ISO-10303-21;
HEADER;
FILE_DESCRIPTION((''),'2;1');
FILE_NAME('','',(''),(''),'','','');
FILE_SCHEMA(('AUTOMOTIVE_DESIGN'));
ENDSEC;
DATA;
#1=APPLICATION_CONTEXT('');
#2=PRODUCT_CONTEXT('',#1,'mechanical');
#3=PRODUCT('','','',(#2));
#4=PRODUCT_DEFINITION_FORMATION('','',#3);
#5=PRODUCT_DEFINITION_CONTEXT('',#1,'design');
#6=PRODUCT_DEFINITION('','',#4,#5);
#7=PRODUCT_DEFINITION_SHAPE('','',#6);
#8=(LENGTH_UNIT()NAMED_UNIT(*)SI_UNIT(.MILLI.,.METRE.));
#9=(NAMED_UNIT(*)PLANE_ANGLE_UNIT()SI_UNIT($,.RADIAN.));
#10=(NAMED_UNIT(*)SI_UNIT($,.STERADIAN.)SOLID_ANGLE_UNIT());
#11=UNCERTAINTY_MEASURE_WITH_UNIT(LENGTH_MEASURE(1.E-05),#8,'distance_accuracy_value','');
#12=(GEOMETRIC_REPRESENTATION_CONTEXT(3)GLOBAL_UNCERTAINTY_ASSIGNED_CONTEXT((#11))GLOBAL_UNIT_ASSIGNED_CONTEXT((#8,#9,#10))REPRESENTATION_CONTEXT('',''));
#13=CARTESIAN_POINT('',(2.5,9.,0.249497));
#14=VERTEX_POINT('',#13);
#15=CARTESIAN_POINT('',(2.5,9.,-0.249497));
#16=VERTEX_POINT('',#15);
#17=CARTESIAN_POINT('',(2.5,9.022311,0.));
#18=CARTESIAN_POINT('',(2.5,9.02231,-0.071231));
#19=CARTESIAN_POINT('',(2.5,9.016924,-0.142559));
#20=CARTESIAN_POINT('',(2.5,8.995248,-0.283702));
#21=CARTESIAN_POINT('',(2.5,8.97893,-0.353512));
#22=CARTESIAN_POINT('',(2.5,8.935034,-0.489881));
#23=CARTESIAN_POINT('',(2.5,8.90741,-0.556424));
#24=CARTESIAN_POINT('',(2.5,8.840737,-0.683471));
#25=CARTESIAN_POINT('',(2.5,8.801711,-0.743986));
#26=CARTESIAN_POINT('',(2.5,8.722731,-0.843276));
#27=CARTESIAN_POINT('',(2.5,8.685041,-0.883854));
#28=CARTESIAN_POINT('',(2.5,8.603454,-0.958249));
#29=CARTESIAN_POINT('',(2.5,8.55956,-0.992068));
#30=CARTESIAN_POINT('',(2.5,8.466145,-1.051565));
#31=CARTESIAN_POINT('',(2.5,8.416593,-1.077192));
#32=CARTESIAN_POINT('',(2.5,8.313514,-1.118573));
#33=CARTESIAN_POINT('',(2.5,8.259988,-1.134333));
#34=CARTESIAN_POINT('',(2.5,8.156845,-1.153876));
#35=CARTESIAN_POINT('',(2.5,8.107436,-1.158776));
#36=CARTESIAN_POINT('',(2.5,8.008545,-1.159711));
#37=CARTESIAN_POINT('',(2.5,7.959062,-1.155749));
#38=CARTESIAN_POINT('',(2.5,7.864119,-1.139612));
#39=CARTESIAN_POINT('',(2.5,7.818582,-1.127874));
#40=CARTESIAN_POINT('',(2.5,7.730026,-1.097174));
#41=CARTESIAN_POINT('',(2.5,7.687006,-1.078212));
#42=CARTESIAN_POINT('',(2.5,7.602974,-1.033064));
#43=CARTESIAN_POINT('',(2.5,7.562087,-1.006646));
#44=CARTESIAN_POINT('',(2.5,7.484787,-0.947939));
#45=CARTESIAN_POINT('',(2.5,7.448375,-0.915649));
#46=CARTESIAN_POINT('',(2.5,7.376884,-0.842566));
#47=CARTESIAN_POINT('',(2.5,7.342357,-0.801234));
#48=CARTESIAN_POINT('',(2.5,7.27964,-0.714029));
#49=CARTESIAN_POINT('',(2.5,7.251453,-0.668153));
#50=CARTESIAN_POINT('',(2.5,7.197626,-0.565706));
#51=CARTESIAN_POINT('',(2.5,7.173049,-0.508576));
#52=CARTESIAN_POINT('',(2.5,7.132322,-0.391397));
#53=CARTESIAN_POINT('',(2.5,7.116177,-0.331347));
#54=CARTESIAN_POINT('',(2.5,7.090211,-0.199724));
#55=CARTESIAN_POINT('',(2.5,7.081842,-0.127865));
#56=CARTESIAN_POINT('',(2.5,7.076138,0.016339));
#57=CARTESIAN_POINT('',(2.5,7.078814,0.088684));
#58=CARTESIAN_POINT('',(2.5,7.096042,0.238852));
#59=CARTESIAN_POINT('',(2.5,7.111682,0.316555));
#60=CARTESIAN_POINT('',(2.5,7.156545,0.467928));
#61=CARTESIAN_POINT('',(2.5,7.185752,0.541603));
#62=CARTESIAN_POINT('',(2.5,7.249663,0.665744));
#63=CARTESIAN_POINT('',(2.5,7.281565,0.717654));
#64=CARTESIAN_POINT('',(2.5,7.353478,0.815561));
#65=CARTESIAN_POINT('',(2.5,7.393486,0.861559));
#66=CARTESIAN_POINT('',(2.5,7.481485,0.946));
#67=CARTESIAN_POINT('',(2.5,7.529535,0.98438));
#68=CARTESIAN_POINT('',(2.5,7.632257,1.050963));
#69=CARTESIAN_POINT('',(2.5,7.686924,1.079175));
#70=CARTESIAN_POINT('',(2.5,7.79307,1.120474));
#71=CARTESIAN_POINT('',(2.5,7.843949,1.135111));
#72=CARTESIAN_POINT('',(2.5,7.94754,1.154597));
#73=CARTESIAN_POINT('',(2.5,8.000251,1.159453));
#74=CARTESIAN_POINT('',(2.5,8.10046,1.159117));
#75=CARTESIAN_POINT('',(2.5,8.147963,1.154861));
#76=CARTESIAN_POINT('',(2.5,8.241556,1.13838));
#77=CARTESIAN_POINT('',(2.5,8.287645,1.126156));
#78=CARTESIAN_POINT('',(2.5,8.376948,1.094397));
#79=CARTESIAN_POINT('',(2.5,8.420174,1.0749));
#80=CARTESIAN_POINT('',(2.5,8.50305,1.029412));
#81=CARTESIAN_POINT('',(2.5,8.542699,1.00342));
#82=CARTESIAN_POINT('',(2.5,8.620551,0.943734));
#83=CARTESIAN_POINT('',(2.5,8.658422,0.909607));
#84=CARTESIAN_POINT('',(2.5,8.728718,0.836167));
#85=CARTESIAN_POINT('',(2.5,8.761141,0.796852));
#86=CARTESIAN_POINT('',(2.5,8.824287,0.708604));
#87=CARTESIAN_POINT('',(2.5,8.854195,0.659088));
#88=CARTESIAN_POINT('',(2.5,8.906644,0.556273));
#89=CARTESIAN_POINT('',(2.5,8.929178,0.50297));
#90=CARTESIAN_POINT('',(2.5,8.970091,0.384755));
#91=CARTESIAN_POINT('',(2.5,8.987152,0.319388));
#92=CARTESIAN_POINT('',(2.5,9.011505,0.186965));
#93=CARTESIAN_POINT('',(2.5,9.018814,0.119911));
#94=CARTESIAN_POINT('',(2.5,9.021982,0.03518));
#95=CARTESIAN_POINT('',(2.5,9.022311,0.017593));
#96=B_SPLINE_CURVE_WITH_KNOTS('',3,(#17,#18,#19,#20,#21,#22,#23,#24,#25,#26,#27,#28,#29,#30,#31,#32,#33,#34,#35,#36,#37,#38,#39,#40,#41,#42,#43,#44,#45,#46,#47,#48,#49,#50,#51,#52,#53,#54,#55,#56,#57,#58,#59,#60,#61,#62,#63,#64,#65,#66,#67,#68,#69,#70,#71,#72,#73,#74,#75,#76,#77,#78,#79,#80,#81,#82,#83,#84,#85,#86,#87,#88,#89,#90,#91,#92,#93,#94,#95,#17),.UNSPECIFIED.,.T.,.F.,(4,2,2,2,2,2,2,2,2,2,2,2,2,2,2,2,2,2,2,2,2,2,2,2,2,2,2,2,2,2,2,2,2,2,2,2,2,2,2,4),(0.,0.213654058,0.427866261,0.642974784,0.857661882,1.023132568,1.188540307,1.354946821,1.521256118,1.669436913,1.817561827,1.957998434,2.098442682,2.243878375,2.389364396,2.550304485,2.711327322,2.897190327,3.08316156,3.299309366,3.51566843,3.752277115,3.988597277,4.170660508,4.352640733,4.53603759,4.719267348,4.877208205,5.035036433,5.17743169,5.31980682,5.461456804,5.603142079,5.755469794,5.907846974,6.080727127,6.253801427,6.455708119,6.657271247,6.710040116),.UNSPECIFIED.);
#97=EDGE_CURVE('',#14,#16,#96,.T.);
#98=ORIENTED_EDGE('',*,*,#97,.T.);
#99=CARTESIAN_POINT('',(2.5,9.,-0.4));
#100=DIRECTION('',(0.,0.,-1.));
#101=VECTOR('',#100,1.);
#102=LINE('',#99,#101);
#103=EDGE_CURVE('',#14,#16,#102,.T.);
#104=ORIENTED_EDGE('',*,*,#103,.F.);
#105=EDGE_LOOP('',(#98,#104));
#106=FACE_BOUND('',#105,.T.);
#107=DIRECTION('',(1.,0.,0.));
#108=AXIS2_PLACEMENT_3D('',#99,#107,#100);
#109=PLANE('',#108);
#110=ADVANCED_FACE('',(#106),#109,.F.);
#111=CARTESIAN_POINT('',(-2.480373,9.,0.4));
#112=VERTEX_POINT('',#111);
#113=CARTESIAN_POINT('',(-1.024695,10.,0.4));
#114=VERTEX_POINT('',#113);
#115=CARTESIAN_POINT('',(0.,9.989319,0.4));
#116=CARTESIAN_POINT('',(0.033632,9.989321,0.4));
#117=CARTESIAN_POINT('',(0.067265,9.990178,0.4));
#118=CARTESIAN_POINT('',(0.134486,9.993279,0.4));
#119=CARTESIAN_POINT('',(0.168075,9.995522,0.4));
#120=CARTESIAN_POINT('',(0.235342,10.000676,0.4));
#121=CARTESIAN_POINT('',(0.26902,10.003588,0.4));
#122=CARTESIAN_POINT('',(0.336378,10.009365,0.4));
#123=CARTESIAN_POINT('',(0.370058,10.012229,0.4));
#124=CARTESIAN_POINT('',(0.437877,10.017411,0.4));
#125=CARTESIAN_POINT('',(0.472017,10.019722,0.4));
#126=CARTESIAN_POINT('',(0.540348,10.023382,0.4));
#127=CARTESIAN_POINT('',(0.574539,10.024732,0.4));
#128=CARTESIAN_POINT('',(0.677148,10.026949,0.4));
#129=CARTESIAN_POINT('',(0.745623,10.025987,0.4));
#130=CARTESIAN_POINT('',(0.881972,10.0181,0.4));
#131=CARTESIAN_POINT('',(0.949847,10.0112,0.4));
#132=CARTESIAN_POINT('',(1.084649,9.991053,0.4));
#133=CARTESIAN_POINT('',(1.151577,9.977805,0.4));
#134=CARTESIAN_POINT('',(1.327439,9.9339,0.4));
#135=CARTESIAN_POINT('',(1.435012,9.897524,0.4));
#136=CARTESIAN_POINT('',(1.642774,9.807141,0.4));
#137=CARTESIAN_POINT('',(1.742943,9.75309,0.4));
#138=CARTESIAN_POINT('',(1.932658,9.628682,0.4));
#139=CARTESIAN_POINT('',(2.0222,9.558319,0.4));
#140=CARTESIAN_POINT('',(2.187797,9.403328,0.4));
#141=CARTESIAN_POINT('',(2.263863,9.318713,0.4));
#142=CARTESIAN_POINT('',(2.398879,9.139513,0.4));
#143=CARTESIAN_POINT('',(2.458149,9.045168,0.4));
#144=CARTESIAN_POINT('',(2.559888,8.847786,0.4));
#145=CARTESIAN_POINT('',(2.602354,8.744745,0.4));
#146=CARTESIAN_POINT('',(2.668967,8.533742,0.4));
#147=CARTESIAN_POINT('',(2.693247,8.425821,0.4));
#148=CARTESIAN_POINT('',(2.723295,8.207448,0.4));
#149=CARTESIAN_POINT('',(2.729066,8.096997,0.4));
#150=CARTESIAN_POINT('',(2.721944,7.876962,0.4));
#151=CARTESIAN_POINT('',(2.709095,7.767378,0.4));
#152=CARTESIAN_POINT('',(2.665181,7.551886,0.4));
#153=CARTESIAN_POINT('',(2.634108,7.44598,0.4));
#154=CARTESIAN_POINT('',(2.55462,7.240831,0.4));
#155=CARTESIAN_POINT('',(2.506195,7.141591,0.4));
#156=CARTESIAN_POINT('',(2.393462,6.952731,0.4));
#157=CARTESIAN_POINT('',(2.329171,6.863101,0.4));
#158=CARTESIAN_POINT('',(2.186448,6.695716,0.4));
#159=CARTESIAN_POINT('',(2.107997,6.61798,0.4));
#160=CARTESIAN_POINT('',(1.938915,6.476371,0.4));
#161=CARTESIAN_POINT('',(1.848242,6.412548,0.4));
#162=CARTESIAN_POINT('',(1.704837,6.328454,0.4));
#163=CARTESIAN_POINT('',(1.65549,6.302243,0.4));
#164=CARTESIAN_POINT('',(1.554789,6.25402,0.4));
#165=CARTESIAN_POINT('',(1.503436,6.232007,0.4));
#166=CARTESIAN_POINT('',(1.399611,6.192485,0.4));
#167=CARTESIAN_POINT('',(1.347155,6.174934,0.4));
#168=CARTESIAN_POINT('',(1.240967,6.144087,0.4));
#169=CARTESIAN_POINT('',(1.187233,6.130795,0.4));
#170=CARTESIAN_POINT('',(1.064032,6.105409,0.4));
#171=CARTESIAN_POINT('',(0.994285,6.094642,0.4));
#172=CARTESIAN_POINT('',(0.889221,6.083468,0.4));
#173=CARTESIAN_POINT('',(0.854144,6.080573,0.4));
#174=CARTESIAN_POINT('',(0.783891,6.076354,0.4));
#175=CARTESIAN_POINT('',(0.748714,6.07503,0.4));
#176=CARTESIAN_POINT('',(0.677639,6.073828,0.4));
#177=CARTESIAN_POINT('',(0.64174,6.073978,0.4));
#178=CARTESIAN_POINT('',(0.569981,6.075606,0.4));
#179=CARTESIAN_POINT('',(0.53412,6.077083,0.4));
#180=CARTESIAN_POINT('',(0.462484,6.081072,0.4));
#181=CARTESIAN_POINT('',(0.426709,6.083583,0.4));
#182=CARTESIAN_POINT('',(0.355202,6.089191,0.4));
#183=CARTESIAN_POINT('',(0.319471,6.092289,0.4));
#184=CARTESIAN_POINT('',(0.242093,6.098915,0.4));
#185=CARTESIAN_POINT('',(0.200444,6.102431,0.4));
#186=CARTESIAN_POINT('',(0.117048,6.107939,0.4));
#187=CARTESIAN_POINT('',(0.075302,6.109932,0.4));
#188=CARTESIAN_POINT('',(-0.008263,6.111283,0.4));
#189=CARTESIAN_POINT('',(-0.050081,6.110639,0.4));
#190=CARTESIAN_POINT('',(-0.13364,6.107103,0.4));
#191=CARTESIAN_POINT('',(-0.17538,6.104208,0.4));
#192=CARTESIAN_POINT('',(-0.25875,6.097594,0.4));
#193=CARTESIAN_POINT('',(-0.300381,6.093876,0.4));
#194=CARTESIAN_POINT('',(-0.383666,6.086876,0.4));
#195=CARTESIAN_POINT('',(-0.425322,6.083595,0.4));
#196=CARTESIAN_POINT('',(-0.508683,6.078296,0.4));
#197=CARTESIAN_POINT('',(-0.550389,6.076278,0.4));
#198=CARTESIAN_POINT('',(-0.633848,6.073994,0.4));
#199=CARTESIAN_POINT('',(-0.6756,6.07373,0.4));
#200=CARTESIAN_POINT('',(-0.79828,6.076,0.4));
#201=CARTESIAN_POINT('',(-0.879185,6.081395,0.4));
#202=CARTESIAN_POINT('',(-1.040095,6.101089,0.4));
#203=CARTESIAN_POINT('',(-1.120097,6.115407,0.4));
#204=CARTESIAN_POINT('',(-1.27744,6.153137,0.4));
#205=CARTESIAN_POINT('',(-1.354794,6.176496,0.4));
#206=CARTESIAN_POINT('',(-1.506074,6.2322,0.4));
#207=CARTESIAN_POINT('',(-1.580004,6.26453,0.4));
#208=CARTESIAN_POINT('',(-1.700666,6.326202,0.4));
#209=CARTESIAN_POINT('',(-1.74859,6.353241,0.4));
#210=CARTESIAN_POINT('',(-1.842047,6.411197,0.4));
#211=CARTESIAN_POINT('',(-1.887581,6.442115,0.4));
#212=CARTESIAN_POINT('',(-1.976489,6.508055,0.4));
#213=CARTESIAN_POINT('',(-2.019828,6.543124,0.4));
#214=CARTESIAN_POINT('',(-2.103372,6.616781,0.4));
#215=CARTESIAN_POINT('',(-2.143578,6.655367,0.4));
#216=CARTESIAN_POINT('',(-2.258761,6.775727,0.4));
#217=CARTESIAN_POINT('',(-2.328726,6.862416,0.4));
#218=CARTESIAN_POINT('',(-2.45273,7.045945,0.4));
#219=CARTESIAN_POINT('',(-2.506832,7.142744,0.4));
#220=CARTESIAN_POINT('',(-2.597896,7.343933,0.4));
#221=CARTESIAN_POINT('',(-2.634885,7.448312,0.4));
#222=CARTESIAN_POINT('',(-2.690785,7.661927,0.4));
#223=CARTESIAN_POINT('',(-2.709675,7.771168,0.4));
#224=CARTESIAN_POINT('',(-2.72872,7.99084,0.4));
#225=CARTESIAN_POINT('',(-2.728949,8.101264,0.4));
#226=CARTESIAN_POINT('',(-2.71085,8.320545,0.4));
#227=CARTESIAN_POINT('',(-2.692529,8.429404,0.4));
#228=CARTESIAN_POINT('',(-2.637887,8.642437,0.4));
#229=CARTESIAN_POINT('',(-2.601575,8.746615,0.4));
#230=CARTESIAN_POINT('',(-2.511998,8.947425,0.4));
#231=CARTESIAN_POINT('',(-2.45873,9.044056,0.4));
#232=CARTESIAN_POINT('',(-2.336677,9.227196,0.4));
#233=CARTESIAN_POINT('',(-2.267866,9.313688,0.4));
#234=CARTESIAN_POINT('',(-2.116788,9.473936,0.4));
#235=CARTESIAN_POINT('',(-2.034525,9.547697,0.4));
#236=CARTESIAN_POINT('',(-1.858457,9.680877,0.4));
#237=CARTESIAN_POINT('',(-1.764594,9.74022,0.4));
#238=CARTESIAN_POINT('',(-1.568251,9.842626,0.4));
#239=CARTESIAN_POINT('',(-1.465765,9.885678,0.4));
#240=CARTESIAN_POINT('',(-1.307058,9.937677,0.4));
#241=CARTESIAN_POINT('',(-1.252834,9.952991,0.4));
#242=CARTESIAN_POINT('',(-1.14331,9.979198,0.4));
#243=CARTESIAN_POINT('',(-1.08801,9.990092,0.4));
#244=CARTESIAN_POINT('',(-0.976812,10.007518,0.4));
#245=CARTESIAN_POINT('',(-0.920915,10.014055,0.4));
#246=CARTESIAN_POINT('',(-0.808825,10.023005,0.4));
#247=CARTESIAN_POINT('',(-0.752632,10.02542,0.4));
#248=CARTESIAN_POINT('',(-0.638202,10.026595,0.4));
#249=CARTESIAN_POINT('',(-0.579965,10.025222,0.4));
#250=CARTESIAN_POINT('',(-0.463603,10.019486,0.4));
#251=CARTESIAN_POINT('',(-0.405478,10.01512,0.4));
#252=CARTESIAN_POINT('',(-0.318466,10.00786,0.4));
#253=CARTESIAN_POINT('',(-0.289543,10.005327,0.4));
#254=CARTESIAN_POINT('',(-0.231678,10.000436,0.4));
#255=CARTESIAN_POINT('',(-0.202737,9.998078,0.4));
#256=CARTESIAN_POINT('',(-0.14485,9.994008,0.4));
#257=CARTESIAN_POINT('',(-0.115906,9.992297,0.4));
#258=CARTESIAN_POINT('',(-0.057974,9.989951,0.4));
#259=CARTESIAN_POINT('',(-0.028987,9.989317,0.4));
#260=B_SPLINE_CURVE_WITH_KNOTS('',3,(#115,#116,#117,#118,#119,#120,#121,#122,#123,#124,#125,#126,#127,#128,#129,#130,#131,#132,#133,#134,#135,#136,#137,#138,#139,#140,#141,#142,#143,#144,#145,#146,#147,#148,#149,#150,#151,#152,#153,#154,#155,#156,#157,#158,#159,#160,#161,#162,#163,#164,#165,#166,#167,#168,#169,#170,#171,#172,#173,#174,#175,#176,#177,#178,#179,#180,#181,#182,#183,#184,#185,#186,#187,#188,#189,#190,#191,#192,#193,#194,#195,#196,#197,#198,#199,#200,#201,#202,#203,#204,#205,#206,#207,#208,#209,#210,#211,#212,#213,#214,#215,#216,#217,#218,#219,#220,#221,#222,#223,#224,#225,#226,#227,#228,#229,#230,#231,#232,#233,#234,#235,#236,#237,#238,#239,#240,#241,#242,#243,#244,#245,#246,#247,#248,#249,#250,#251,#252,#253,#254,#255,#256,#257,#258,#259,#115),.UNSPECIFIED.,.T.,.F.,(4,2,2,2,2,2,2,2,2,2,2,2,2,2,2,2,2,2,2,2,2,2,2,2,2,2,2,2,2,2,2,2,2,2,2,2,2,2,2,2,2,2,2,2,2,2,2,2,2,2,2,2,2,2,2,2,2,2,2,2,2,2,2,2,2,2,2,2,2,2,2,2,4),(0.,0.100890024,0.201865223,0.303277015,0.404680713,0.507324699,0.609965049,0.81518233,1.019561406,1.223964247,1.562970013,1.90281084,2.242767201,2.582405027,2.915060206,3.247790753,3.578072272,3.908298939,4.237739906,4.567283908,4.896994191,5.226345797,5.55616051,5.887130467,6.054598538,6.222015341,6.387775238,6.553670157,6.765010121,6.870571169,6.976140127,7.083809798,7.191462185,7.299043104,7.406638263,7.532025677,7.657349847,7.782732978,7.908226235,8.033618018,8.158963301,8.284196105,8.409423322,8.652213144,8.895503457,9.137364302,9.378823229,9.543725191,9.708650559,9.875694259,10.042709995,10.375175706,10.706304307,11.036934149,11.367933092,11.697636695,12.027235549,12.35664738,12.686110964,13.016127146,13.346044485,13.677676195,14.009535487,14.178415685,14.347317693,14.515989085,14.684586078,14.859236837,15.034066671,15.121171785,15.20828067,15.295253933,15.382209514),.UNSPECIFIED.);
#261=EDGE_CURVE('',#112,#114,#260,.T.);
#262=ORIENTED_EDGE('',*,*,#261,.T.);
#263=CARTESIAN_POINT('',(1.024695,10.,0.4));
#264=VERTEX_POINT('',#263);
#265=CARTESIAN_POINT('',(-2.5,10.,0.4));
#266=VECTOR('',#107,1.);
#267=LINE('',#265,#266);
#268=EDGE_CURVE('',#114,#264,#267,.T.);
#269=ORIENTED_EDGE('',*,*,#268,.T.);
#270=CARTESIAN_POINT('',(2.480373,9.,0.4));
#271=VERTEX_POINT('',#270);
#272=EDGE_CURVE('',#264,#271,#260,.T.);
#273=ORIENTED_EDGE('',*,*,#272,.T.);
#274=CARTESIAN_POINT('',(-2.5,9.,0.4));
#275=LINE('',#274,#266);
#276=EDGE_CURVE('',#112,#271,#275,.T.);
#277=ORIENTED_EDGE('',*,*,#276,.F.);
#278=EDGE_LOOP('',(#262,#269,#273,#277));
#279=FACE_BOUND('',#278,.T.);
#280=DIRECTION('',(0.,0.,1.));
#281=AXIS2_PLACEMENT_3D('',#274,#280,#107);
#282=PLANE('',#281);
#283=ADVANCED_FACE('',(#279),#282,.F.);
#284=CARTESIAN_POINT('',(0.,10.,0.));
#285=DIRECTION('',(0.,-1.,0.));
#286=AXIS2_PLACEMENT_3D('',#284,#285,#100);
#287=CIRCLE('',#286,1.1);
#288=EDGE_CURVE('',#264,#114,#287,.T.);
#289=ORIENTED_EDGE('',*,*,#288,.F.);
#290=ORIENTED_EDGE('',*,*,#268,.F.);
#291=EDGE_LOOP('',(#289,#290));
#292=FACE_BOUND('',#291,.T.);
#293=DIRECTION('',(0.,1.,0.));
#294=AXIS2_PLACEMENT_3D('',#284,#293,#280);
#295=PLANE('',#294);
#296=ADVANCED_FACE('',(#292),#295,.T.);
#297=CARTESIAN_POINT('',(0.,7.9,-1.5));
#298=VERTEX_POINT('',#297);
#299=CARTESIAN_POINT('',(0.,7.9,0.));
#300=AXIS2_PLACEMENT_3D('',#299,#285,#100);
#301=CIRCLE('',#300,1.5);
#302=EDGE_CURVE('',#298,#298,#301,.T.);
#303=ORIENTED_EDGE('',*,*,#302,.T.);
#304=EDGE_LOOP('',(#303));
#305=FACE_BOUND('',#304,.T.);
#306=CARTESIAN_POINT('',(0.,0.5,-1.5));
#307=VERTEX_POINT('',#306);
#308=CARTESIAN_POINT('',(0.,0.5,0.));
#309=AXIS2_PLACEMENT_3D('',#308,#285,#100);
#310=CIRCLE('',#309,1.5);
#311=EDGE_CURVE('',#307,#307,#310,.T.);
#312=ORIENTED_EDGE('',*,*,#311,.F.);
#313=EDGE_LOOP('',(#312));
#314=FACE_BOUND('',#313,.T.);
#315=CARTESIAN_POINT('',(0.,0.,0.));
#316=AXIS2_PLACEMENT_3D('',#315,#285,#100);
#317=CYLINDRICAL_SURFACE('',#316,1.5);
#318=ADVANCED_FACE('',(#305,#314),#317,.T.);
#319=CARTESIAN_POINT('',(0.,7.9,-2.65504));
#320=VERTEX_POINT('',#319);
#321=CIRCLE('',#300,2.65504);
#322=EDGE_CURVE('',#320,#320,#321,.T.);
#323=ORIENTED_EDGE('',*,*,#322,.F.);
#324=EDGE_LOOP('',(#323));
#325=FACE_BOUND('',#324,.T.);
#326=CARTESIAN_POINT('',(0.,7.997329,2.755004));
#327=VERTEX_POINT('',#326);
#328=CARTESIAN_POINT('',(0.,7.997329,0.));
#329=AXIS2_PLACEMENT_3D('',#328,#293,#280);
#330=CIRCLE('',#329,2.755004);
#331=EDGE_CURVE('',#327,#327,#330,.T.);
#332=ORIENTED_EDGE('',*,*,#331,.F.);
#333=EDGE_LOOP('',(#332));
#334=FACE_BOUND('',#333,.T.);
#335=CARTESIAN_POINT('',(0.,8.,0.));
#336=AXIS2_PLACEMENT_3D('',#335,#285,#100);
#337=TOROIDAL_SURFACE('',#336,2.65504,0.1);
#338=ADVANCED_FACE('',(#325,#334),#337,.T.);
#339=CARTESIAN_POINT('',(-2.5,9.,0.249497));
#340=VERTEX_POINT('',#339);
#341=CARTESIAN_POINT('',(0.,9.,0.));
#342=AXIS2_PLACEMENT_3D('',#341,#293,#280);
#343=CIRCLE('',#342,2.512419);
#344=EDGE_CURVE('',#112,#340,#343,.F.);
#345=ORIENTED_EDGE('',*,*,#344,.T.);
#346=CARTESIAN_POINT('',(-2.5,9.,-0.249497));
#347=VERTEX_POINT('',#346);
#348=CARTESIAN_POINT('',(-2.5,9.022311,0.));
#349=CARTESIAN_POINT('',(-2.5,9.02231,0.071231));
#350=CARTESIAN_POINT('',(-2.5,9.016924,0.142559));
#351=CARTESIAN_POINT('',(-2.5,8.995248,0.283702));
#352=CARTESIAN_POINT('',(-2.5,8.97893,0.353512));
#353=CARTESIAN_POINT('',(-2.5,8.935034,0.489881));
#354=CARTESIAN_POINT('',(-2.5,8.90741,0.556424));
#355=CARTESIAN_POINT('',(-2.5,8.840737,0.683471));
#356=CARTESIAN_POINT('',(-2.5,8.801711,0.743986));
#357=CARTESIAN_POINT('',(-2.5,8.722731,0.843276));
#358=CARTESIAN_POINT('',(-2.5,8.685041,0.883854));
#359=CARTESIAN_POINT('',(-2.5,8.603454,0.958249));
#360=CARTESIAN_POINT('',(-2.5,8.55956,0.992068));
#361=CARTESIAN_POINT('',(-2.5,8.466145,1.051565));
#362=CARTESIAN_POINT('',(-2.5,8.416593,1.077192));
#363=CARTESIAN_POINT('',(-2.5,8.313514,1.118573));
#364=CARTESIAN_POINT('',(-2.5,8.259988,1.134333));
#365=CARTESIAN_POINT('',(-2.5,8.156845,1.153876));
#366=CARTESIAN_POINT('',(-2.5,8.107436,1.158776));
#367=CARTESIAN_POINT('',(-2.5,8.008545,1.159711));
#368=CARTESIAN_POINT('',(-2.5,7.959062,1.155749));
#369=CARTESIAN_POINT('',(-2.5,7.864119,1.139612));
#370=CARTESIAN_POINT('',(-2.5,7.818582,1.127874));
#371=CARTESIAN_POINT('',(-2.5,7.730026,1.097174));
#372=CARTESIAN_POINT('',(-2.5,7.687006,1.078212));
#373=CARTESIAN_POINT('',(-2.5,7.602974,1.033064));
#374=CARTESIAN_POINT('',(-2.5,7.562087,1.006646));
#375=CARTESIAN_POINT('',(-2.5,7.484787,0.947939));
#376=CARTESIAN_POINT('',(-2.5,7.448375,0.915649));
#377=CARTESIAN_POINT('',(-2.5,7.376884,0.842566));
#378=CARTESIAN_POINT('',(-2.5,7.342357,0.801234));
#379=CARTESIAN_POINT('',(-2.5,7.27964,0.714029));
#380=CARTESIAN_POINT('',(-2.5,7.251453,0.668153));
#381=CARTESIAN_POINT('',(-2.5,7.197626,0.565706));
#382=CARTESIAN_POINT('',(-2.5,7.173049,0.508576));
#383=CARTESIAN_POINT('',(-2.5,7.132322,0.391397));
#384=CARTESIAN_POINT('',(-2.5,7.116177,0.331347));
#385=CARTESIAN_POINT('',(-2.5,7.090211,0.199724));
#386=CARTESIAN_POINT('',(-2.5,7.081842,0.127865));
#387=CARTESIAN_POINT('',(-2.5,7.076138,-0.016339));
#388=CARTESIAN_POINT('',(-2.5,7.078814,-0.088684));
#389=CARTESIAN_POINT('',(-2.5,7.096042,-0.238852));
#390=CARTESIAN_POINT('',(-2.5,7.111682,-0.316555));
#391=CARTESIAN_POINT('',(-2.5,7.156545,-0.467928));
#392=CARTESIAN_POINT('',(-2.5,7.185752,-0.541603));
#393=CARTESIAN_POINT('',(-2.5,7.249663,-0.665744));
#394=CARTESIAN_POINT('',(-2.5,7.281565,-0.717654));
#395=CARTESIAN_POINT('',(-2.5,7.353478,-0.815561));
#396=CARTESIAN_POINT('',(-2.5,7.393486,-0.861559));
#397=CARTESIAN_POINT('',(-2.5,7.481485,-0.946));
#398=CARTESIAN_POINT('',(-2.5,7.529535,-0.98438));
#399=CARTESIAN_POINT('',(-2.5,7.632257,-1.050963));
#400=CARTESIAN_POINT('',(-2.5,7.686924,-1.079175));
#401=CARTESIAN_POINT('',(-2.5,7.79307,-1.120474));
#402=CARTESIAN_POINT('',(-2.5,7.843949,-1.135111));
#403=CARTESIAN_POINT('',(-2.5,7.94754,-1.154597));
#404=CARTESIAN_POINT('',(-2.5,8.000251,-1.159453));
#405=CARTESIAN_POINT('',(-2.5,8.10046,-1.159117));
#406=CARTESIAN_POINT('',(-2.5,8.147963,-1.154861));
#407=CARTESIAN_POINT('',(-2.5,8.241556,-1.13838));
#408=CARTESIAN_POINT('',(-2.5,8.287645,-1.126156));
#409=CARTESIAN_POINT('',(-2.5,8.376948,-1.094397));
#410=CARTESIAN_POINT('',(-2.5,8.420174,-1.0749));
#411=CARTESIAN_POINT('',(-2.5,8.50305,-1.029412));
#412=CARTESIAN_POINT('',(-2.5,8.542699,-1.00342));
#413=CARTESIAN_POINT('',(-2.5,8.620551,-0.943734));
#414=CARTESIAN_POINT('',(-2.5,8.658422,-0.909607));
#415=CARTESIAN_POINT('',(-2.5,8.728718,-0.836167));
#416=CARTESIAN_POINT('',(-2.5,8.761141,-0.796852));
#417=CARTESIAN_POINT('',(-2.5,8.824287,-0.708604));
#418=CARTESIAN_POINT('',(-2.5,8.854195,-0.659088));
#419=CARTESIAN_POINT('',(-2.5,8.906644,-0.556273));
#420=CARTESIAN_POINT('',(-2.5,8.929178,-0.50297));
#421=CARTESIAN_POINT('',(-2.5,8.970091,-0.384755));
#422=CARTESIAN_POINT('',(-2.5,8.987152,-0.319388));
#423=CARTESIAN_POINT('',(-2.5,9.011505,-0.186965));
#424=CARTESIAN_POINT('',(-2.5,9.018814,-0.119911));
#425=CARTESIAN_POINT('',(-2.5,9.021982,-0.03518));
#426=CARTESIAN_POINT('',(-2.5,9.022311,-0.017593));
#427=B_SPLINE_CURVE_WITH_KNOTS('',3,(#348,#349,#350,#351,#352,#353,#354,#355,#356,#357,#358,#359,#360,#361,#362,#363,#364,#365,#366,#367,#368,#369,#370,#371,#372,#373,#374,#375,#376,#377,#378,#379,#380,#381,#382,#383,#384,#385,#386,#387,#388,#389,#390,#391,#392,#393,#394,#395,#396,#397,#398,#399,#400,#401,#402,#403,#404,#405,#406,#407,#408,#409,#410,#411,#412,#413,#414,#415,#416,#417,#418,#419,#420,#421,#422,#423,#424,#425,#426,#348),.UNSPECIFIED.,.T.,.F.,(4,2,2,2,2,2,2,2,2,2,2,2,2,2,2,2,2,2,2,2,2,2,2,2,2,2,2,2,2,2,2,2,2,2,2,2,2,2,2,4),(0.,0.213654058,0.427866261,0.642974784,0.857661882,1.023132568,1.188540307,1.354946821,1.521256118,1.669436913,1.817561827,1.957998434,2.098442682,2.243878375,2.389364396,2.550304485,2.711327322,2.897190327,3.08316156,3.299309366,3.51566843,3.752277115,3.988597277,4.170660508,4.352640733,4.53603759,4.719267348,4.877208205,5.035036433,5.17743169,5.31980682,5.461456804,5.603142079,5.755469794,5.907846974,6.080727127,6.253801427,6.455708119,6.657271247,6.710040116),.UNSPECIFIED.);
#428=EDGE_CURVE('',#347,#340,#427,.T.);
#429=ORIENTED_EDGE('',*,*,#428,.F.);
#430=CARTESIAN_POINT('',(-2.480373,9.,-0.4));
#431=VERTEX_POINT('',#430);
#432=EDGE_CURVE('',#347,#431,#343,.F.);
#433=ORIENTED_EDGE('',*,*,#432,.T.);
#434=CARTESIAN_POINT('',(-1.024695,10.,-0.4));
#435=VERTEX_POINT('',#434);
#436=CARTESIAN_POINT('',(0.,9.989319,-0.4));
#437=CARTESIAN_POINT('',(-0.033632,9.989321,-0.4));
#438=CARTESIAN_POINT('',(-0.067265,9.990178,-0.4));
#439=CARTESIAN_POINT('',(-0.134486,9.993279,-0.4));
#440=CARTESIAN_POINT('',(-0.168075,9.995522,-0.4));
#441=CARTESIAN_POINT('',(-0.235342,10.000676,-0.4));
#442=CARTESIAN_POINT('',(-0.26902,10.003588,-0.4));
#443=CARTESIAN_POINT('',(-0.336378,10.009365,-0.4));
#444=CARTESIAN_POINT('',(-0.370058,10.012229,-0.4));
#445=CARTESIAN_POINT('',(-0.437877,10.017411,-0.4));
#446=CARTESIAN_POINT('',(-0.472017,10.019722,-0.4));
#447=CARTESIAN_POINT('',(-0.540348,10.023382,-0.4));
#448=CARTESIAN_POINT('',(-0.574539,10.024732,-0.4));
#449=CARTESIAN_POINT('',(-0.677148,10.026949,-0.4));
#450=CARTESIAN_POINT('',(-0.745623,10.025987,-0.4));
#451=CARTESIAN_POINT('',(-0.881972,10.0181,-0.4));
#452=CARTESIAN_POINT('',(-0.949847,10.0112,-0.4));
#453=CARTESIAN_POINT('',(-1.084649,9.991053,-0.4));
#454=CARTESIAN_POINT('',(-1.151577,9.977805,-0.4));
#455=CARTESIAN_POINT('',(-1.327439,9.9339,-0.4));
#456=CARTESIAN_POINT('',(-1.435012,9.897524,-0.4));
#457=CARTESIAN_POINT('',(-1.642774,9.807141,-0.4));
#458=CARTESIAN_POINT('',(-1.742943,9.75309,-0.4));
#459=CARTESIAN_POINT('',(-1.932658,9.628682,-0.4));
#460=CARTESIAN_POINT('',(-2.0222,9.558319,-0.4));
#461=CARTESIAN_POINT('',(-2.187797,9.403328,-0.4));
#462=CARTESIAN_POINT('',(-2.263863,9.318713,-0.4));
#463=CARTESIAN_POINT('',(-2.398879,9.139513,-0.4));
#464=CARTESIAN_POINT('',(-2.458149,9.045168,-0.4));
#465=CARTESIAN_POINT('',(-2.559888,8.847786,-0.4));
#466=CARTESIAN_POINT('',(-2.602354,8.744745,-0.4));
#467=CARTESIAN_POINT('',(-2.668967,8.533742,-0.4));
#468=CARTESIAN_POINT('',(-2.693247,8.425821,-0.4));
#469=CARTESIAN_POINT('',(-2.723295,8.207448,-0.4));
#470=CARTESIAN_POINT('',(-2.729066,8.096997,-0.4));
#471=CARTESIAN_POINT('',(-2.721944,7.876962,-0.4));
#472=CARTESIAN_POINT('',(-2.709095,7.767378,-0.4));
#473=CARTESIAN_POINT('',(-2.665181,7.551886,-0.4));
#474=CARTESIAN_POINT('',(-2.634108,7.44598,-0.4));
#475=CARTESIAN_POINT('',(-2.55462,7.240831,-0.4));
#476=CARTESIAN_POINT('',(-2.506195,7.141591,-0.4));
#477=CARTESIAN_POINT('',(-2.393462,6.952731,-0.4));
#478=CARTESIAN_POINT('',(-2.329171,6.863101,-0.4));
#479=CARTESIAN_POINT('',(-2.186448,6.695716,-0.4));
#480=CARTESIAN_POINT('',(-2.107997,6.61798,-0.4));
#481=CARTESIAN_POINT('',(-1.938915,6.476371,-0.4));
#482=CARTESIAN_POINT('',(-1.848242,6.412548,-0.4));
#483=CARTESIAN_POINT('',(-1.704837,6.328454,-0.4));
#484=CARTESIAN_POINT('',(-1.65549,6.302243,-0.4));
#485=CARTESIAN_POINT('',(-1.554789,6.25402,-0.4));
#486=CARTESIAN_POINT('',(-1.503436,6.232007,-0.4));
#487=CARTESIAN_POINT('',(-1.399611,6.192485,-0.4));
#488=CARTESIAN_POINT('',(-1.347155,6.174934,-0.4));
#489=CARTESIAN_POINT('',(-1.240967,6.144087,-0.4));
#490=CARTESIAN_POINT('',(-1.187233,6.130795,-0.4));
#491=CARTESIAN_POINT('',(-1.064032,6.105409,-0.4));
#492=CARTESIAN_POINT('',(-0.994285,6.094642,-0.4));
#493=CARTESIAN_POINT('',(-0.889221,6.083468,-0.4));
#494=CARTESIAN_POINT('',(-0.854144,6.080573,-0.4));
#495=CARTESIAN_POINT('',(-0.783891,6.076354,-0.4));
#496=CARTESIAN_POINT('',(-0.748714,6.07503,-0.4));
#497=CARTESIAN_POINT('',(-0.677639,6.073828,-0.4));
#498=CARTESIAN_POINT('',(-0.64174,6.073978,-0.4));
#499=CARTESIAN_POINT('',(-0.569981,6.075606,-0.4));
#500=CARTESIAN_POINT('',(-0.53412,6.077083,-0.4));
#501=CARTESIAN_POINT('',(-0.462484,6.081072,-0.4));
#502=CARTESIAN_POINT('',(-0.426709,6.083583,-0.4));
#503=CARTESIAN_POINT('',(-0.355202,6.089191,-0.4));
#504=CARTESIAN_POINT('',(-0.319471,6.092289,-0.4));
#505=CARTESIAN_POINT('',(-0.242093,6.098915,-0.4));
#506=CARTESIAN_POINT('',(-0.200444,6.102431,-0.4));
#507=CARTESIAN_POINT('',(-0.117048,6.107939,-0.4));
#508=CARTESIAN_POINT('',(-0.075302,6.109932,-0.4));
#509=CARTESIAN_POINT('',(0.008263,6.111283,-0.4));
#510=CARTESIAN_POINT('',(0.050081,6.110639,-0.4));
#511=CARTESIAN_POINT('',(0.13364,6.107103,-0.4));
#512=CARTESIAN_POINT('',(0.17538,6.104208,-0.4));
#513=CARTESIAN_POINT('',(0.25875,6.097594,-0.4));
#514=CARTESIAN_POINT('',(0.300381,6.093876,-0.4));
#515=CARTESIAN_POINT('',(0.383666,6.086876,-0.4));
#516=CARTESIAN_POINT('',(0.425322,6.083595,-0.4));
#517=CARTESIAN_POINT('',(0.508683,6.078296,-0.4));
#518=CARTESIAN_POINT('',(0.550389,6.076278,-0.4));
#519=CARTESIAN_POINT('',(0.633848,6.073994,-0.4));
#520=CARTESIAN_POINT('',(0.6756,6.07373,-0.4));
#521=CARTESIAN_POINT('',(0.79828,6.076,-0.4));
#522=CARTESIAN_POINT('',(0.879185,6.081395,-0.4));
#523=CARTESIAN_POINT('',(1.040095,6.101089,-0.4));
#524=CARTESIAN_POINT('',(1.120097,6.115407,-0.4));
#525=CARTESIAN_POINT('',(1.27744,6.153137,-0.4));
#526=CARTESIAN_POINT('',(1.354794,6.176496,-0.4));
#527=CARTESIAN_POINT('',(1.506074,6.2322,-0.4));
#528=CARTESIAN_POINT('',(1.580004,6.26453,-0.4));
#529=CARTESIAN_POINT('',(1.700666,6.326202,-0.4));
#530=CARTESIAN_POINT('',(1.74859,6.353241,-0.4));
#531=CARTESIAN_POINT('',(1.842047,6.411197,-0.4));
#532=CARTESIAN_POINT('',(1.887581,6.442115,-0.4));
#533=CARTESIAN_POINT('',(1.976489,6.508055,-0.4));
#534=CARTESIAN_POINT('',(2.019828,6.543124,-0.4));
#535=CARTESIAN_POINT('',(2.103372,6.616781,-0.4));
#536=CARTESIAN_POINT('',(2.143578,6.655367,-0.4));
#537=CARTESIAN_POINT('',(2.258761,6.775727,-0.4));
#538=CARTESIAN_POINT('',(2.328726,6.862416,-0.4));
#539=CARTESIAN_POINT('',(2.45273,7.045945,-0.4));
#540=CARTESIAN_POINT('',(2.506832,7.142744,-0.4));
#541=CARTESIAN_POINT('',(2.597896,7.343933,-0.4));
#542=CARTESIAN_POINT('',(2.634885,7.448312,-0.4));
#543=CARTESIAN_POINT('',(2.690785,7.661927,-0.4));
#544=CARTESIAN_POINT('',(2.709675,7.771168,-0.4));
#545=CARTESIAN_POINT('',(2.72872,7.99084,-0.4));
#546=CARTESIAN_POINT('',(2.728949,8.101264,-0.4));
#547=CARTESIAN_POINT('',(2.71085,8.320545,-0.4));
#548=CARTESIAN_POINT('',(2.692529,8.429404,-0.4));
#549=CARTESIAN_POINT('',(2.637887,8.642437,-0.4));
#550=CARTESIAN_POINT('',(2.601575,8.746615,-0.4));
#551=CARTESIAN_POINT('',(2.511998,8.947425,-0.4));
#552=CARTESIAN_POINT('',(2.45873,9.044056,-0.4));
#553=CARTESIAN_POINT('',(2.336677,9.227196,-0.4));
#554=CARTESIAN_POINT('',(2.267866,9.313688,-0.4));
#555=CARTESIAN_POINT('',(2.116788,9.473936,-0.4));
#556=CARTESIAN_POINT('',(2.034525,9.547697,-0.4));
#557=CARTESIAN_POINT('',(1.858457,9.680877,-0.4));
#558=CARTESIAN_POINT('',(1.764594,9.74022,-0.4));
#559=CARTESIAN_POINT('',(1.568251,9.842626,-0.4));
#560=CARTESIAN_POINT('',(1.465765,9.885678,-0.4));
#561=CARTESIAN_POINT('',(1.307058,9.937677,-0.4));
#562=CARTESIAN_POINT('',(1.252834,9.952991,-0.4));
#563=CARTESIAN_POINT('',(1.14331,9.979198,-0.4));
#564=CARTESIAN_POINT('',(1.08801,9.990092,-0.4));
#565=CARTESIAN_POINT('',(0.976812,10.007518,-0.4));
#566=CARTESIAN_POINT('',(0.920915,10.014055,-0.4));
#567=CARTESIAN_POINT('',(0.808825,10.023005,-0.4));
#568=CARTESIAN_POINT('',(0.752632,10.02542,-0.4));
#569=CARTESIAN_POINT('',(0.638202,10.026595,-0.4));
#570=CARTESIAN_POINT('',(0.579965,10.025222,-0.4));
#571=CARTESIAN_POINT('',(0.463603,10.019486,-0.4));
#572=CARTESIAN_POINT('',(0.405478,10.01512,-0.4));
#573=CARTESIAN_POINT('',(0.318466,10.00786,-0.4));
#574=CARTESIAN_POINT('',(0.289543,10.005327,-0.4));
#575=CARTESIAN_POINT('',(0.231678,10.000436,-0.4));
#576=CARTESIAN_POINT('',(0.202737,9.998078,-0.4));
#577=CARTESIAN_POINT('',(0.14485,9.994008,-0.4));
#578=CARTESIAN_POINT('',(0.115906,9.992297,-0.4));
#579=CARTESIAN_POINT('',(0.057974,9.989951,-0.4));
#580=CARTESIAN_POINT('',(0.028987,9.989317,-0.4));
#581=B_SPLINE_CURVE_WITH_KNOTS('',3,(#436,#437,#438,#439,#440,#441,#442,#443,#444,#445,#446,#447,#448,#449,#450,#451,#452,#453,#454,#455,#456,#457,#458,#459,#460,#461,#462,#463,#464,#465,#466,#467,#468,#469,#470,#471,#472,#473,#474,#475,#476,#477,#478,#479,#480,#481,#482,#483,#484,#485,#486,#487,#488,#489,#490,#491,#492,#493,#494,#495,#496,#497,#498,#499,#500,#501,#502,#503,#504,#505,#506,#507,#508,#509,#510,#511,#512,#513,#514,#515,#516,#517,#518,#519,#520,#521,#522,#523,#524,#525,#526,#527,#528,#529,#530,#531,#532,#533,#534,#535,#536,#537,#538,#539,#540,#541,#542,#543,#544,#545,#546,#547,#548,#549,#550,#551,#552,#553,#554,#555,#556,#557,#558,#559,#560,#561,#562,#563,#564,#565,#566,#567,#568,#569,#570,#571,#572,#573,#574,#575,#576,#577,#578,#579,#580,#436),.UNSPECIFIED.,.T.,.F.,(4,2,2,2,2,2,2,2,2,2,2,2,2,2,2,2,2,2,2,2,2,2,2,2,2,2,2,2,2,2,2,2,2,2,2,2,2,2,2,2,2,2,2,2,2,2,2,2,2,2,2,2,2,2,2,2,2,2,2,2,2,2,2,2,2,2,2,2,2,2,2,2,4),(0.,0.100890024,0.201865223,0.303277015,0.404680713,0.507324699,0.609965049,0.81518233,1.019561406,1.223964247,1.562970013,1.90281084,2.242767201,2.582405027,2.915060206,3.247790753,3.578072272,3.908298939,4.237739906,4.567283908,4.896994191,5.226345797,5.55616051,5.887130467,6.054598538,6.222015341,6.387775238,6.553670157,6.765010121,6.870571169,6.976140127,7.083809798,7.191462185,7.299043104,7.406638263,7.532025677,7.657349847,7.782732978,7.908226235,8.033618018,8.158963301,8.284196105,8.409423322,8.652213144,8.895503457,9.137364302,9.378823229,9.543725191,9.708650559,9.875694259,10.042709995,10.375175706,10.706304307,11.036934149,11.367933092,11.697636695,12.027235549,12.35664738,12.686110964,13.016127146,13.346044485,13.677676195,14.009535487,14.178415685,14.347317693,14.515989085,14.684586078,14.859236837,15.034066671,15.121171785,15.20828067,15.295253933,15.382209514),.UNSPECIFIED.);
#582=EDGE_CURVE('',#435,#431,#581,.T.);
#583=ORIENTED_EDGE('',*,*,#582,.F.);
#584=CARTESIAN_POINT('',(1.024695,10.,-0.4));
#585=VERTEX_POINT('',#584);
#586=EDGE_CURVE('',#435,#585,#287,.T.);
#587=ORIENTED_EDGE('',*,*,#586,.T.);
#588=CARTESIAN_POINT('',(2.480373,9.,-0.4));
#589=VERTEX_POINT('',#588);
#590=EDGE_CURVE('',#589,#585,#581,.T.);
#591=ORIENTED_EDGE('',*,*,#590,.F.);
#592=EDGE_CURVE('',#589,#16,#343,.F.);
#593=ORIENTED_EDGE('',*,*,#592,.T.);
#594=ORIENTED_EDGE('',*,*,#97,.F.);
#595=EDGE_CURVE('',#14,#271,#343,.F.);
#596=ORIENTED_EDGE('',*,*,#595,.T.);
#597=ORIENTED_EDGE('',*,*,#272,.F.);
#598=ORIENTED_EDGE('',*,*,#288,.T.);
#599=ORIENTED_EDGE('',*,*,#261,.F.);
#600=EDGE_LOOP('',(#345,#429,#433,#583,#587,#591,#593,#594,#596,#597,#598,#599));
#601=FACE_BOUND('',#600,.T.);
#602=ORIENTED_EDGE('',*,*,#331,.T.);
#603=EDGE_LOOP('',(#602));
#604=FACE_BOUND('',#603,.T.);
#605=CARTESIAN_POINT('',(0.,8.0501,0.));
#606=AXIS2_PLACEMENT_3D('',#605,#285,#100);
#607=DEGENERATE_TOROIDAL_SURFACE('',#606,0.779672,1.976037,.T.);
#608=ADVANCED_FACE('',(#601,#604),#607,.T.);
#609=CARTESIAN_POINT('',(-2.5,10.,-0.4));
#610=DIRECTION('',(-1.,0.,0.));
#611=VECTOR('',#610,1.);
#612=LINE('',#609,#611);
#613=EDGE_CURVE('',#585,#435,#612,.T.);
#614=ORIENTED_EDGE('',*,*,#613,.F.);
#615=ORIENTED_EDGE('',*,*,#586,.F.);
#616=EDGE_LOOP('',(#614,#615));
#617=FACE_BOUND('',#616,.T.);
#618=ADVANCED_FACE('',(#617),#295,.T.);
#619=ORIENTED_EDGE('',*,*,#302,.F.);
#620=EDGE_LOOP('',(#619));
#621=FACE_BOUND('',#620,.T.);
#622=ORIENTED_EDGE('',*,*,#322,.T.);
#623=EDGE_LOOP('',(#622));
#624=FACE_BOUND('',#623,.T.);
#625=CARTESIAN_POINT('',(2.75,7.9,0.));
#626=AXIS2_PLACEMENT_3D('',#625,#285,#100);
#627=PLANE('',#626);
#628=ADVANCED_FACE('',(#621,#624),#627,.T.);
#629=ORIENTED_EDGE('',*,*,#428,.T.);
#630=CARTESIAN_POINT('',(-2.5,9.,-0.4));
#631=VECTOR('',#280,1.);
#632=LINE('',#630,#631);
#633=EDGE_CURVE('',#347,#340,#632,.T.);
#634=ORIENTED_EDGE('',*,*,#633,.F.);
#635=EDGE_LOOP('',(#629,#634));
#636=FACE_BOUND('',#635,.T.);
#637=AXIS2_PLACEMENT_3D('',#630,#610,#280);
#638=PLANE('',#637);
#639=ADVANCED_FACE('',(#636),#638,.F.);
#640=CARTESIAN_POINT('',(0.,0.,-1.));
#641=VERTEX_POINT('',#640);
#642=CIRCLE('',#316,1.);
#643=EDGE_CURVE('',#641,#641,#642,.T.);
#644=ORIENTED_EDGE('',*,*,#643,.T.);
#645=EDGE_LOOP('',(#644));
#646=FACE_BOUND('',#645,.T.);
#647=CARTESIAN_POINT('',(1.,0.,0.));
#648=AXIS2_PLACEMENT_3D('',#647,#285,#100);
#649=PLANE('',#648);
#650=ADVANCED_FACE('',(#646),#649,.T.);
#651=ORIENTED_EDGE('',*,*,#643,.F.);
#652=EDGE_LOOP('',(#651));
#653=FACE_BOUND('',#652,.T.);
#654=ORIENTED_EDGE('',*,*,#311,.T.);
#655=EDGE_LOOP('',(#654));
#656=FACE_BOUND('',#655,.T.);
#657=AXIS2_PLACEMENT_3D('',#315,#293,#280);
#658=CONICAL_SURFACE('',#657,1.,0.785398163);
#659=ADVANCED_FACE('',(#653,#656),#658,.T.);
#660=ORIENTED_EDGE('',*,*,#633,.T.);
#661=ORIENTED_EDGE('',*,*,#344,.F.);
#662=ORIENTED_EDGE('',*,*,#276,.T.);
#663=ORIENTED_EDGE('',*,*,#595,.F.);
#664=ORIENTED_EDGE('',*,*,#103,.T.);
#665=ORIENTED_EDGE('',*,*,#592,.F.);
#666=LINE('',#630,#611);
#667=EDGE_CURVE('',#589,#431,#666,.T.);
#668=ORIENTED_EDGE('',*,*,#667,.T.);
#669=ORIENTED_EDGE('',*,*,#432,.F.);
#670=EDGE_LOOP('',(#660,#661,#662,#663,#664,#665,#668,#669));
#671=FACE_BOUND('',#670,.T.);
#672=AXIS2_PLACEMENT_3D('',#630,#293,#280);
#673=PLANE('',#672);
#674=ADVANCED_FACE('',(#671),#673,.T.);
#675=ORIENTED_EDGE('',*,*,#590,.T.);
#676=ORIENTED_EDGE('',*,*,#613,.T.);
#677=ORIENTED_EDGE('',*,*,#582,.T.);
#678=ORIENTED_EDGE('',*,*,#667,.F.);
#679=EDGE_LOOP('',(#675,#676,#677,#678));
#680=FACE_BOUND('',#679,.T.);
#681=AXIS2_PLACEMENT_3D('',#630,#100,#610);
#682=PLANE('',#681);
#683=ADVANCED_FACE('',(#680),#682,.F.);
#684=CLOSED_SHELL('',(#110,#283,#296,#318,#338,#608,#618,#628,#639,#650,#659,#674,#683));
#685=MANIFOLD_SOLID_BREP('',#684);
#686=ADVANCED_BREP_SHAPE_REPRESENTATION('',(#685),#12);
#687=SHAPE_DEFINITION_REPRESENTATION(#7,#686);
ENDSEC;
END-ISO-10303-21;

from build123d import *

# Parameters (mm, degrees)
FILLET_1_R          = 0.1
SKETCH_3_W          = 5
SKETCH_3_H          = 0.8
CUT_EXTRUDE_2_DEPTH = 1


with BuildPart() as part:
    # Эскиз1 → Повернуть1 (revolve)
    with BuildSketch(Plane.XY):
        with BuildLine():
            Line((2.75, 7.9), (1.5, 7.9))
            Line((1.5, 7.9), (1.5, 0.5))
            Line((1.5, 0.5), (1, 0))
            Line((1, 0), (0, 0))
            Line((0, 0), (0, 10))
            Line((0, 10), (1.1, 10))
            ThreePointArc((1.1, 10), (2.333466256, 9.270937772), (2.75, 7.9))
        make_face()
    revolve(axis=Axis((0, 0, 0), (0, 1, 0)))

    # Скругление1
    fillet_1_edges = [part.edges().sort_by_distance(p)[0] for p in [
        (-2.75, 7.9, 0),
    ]]
    fillet(fillet_1_edges, radius=FILLET_1_R)

    # Эскиз3 → Вырез-Вытянуть2 (cut)
    with BuildSketch(Plane(origin=(0, 10, 0), x_dir=(-1, 0, 0), z_dir=(0, 1, 0))):
        Rectangle(SKETCH_3_W, SKETCH_3_H)
    extrude(amount=-CUT_EXTRUDE_2_DEPTH, mode=Mode.SUBTRACT)


solid = part.part
